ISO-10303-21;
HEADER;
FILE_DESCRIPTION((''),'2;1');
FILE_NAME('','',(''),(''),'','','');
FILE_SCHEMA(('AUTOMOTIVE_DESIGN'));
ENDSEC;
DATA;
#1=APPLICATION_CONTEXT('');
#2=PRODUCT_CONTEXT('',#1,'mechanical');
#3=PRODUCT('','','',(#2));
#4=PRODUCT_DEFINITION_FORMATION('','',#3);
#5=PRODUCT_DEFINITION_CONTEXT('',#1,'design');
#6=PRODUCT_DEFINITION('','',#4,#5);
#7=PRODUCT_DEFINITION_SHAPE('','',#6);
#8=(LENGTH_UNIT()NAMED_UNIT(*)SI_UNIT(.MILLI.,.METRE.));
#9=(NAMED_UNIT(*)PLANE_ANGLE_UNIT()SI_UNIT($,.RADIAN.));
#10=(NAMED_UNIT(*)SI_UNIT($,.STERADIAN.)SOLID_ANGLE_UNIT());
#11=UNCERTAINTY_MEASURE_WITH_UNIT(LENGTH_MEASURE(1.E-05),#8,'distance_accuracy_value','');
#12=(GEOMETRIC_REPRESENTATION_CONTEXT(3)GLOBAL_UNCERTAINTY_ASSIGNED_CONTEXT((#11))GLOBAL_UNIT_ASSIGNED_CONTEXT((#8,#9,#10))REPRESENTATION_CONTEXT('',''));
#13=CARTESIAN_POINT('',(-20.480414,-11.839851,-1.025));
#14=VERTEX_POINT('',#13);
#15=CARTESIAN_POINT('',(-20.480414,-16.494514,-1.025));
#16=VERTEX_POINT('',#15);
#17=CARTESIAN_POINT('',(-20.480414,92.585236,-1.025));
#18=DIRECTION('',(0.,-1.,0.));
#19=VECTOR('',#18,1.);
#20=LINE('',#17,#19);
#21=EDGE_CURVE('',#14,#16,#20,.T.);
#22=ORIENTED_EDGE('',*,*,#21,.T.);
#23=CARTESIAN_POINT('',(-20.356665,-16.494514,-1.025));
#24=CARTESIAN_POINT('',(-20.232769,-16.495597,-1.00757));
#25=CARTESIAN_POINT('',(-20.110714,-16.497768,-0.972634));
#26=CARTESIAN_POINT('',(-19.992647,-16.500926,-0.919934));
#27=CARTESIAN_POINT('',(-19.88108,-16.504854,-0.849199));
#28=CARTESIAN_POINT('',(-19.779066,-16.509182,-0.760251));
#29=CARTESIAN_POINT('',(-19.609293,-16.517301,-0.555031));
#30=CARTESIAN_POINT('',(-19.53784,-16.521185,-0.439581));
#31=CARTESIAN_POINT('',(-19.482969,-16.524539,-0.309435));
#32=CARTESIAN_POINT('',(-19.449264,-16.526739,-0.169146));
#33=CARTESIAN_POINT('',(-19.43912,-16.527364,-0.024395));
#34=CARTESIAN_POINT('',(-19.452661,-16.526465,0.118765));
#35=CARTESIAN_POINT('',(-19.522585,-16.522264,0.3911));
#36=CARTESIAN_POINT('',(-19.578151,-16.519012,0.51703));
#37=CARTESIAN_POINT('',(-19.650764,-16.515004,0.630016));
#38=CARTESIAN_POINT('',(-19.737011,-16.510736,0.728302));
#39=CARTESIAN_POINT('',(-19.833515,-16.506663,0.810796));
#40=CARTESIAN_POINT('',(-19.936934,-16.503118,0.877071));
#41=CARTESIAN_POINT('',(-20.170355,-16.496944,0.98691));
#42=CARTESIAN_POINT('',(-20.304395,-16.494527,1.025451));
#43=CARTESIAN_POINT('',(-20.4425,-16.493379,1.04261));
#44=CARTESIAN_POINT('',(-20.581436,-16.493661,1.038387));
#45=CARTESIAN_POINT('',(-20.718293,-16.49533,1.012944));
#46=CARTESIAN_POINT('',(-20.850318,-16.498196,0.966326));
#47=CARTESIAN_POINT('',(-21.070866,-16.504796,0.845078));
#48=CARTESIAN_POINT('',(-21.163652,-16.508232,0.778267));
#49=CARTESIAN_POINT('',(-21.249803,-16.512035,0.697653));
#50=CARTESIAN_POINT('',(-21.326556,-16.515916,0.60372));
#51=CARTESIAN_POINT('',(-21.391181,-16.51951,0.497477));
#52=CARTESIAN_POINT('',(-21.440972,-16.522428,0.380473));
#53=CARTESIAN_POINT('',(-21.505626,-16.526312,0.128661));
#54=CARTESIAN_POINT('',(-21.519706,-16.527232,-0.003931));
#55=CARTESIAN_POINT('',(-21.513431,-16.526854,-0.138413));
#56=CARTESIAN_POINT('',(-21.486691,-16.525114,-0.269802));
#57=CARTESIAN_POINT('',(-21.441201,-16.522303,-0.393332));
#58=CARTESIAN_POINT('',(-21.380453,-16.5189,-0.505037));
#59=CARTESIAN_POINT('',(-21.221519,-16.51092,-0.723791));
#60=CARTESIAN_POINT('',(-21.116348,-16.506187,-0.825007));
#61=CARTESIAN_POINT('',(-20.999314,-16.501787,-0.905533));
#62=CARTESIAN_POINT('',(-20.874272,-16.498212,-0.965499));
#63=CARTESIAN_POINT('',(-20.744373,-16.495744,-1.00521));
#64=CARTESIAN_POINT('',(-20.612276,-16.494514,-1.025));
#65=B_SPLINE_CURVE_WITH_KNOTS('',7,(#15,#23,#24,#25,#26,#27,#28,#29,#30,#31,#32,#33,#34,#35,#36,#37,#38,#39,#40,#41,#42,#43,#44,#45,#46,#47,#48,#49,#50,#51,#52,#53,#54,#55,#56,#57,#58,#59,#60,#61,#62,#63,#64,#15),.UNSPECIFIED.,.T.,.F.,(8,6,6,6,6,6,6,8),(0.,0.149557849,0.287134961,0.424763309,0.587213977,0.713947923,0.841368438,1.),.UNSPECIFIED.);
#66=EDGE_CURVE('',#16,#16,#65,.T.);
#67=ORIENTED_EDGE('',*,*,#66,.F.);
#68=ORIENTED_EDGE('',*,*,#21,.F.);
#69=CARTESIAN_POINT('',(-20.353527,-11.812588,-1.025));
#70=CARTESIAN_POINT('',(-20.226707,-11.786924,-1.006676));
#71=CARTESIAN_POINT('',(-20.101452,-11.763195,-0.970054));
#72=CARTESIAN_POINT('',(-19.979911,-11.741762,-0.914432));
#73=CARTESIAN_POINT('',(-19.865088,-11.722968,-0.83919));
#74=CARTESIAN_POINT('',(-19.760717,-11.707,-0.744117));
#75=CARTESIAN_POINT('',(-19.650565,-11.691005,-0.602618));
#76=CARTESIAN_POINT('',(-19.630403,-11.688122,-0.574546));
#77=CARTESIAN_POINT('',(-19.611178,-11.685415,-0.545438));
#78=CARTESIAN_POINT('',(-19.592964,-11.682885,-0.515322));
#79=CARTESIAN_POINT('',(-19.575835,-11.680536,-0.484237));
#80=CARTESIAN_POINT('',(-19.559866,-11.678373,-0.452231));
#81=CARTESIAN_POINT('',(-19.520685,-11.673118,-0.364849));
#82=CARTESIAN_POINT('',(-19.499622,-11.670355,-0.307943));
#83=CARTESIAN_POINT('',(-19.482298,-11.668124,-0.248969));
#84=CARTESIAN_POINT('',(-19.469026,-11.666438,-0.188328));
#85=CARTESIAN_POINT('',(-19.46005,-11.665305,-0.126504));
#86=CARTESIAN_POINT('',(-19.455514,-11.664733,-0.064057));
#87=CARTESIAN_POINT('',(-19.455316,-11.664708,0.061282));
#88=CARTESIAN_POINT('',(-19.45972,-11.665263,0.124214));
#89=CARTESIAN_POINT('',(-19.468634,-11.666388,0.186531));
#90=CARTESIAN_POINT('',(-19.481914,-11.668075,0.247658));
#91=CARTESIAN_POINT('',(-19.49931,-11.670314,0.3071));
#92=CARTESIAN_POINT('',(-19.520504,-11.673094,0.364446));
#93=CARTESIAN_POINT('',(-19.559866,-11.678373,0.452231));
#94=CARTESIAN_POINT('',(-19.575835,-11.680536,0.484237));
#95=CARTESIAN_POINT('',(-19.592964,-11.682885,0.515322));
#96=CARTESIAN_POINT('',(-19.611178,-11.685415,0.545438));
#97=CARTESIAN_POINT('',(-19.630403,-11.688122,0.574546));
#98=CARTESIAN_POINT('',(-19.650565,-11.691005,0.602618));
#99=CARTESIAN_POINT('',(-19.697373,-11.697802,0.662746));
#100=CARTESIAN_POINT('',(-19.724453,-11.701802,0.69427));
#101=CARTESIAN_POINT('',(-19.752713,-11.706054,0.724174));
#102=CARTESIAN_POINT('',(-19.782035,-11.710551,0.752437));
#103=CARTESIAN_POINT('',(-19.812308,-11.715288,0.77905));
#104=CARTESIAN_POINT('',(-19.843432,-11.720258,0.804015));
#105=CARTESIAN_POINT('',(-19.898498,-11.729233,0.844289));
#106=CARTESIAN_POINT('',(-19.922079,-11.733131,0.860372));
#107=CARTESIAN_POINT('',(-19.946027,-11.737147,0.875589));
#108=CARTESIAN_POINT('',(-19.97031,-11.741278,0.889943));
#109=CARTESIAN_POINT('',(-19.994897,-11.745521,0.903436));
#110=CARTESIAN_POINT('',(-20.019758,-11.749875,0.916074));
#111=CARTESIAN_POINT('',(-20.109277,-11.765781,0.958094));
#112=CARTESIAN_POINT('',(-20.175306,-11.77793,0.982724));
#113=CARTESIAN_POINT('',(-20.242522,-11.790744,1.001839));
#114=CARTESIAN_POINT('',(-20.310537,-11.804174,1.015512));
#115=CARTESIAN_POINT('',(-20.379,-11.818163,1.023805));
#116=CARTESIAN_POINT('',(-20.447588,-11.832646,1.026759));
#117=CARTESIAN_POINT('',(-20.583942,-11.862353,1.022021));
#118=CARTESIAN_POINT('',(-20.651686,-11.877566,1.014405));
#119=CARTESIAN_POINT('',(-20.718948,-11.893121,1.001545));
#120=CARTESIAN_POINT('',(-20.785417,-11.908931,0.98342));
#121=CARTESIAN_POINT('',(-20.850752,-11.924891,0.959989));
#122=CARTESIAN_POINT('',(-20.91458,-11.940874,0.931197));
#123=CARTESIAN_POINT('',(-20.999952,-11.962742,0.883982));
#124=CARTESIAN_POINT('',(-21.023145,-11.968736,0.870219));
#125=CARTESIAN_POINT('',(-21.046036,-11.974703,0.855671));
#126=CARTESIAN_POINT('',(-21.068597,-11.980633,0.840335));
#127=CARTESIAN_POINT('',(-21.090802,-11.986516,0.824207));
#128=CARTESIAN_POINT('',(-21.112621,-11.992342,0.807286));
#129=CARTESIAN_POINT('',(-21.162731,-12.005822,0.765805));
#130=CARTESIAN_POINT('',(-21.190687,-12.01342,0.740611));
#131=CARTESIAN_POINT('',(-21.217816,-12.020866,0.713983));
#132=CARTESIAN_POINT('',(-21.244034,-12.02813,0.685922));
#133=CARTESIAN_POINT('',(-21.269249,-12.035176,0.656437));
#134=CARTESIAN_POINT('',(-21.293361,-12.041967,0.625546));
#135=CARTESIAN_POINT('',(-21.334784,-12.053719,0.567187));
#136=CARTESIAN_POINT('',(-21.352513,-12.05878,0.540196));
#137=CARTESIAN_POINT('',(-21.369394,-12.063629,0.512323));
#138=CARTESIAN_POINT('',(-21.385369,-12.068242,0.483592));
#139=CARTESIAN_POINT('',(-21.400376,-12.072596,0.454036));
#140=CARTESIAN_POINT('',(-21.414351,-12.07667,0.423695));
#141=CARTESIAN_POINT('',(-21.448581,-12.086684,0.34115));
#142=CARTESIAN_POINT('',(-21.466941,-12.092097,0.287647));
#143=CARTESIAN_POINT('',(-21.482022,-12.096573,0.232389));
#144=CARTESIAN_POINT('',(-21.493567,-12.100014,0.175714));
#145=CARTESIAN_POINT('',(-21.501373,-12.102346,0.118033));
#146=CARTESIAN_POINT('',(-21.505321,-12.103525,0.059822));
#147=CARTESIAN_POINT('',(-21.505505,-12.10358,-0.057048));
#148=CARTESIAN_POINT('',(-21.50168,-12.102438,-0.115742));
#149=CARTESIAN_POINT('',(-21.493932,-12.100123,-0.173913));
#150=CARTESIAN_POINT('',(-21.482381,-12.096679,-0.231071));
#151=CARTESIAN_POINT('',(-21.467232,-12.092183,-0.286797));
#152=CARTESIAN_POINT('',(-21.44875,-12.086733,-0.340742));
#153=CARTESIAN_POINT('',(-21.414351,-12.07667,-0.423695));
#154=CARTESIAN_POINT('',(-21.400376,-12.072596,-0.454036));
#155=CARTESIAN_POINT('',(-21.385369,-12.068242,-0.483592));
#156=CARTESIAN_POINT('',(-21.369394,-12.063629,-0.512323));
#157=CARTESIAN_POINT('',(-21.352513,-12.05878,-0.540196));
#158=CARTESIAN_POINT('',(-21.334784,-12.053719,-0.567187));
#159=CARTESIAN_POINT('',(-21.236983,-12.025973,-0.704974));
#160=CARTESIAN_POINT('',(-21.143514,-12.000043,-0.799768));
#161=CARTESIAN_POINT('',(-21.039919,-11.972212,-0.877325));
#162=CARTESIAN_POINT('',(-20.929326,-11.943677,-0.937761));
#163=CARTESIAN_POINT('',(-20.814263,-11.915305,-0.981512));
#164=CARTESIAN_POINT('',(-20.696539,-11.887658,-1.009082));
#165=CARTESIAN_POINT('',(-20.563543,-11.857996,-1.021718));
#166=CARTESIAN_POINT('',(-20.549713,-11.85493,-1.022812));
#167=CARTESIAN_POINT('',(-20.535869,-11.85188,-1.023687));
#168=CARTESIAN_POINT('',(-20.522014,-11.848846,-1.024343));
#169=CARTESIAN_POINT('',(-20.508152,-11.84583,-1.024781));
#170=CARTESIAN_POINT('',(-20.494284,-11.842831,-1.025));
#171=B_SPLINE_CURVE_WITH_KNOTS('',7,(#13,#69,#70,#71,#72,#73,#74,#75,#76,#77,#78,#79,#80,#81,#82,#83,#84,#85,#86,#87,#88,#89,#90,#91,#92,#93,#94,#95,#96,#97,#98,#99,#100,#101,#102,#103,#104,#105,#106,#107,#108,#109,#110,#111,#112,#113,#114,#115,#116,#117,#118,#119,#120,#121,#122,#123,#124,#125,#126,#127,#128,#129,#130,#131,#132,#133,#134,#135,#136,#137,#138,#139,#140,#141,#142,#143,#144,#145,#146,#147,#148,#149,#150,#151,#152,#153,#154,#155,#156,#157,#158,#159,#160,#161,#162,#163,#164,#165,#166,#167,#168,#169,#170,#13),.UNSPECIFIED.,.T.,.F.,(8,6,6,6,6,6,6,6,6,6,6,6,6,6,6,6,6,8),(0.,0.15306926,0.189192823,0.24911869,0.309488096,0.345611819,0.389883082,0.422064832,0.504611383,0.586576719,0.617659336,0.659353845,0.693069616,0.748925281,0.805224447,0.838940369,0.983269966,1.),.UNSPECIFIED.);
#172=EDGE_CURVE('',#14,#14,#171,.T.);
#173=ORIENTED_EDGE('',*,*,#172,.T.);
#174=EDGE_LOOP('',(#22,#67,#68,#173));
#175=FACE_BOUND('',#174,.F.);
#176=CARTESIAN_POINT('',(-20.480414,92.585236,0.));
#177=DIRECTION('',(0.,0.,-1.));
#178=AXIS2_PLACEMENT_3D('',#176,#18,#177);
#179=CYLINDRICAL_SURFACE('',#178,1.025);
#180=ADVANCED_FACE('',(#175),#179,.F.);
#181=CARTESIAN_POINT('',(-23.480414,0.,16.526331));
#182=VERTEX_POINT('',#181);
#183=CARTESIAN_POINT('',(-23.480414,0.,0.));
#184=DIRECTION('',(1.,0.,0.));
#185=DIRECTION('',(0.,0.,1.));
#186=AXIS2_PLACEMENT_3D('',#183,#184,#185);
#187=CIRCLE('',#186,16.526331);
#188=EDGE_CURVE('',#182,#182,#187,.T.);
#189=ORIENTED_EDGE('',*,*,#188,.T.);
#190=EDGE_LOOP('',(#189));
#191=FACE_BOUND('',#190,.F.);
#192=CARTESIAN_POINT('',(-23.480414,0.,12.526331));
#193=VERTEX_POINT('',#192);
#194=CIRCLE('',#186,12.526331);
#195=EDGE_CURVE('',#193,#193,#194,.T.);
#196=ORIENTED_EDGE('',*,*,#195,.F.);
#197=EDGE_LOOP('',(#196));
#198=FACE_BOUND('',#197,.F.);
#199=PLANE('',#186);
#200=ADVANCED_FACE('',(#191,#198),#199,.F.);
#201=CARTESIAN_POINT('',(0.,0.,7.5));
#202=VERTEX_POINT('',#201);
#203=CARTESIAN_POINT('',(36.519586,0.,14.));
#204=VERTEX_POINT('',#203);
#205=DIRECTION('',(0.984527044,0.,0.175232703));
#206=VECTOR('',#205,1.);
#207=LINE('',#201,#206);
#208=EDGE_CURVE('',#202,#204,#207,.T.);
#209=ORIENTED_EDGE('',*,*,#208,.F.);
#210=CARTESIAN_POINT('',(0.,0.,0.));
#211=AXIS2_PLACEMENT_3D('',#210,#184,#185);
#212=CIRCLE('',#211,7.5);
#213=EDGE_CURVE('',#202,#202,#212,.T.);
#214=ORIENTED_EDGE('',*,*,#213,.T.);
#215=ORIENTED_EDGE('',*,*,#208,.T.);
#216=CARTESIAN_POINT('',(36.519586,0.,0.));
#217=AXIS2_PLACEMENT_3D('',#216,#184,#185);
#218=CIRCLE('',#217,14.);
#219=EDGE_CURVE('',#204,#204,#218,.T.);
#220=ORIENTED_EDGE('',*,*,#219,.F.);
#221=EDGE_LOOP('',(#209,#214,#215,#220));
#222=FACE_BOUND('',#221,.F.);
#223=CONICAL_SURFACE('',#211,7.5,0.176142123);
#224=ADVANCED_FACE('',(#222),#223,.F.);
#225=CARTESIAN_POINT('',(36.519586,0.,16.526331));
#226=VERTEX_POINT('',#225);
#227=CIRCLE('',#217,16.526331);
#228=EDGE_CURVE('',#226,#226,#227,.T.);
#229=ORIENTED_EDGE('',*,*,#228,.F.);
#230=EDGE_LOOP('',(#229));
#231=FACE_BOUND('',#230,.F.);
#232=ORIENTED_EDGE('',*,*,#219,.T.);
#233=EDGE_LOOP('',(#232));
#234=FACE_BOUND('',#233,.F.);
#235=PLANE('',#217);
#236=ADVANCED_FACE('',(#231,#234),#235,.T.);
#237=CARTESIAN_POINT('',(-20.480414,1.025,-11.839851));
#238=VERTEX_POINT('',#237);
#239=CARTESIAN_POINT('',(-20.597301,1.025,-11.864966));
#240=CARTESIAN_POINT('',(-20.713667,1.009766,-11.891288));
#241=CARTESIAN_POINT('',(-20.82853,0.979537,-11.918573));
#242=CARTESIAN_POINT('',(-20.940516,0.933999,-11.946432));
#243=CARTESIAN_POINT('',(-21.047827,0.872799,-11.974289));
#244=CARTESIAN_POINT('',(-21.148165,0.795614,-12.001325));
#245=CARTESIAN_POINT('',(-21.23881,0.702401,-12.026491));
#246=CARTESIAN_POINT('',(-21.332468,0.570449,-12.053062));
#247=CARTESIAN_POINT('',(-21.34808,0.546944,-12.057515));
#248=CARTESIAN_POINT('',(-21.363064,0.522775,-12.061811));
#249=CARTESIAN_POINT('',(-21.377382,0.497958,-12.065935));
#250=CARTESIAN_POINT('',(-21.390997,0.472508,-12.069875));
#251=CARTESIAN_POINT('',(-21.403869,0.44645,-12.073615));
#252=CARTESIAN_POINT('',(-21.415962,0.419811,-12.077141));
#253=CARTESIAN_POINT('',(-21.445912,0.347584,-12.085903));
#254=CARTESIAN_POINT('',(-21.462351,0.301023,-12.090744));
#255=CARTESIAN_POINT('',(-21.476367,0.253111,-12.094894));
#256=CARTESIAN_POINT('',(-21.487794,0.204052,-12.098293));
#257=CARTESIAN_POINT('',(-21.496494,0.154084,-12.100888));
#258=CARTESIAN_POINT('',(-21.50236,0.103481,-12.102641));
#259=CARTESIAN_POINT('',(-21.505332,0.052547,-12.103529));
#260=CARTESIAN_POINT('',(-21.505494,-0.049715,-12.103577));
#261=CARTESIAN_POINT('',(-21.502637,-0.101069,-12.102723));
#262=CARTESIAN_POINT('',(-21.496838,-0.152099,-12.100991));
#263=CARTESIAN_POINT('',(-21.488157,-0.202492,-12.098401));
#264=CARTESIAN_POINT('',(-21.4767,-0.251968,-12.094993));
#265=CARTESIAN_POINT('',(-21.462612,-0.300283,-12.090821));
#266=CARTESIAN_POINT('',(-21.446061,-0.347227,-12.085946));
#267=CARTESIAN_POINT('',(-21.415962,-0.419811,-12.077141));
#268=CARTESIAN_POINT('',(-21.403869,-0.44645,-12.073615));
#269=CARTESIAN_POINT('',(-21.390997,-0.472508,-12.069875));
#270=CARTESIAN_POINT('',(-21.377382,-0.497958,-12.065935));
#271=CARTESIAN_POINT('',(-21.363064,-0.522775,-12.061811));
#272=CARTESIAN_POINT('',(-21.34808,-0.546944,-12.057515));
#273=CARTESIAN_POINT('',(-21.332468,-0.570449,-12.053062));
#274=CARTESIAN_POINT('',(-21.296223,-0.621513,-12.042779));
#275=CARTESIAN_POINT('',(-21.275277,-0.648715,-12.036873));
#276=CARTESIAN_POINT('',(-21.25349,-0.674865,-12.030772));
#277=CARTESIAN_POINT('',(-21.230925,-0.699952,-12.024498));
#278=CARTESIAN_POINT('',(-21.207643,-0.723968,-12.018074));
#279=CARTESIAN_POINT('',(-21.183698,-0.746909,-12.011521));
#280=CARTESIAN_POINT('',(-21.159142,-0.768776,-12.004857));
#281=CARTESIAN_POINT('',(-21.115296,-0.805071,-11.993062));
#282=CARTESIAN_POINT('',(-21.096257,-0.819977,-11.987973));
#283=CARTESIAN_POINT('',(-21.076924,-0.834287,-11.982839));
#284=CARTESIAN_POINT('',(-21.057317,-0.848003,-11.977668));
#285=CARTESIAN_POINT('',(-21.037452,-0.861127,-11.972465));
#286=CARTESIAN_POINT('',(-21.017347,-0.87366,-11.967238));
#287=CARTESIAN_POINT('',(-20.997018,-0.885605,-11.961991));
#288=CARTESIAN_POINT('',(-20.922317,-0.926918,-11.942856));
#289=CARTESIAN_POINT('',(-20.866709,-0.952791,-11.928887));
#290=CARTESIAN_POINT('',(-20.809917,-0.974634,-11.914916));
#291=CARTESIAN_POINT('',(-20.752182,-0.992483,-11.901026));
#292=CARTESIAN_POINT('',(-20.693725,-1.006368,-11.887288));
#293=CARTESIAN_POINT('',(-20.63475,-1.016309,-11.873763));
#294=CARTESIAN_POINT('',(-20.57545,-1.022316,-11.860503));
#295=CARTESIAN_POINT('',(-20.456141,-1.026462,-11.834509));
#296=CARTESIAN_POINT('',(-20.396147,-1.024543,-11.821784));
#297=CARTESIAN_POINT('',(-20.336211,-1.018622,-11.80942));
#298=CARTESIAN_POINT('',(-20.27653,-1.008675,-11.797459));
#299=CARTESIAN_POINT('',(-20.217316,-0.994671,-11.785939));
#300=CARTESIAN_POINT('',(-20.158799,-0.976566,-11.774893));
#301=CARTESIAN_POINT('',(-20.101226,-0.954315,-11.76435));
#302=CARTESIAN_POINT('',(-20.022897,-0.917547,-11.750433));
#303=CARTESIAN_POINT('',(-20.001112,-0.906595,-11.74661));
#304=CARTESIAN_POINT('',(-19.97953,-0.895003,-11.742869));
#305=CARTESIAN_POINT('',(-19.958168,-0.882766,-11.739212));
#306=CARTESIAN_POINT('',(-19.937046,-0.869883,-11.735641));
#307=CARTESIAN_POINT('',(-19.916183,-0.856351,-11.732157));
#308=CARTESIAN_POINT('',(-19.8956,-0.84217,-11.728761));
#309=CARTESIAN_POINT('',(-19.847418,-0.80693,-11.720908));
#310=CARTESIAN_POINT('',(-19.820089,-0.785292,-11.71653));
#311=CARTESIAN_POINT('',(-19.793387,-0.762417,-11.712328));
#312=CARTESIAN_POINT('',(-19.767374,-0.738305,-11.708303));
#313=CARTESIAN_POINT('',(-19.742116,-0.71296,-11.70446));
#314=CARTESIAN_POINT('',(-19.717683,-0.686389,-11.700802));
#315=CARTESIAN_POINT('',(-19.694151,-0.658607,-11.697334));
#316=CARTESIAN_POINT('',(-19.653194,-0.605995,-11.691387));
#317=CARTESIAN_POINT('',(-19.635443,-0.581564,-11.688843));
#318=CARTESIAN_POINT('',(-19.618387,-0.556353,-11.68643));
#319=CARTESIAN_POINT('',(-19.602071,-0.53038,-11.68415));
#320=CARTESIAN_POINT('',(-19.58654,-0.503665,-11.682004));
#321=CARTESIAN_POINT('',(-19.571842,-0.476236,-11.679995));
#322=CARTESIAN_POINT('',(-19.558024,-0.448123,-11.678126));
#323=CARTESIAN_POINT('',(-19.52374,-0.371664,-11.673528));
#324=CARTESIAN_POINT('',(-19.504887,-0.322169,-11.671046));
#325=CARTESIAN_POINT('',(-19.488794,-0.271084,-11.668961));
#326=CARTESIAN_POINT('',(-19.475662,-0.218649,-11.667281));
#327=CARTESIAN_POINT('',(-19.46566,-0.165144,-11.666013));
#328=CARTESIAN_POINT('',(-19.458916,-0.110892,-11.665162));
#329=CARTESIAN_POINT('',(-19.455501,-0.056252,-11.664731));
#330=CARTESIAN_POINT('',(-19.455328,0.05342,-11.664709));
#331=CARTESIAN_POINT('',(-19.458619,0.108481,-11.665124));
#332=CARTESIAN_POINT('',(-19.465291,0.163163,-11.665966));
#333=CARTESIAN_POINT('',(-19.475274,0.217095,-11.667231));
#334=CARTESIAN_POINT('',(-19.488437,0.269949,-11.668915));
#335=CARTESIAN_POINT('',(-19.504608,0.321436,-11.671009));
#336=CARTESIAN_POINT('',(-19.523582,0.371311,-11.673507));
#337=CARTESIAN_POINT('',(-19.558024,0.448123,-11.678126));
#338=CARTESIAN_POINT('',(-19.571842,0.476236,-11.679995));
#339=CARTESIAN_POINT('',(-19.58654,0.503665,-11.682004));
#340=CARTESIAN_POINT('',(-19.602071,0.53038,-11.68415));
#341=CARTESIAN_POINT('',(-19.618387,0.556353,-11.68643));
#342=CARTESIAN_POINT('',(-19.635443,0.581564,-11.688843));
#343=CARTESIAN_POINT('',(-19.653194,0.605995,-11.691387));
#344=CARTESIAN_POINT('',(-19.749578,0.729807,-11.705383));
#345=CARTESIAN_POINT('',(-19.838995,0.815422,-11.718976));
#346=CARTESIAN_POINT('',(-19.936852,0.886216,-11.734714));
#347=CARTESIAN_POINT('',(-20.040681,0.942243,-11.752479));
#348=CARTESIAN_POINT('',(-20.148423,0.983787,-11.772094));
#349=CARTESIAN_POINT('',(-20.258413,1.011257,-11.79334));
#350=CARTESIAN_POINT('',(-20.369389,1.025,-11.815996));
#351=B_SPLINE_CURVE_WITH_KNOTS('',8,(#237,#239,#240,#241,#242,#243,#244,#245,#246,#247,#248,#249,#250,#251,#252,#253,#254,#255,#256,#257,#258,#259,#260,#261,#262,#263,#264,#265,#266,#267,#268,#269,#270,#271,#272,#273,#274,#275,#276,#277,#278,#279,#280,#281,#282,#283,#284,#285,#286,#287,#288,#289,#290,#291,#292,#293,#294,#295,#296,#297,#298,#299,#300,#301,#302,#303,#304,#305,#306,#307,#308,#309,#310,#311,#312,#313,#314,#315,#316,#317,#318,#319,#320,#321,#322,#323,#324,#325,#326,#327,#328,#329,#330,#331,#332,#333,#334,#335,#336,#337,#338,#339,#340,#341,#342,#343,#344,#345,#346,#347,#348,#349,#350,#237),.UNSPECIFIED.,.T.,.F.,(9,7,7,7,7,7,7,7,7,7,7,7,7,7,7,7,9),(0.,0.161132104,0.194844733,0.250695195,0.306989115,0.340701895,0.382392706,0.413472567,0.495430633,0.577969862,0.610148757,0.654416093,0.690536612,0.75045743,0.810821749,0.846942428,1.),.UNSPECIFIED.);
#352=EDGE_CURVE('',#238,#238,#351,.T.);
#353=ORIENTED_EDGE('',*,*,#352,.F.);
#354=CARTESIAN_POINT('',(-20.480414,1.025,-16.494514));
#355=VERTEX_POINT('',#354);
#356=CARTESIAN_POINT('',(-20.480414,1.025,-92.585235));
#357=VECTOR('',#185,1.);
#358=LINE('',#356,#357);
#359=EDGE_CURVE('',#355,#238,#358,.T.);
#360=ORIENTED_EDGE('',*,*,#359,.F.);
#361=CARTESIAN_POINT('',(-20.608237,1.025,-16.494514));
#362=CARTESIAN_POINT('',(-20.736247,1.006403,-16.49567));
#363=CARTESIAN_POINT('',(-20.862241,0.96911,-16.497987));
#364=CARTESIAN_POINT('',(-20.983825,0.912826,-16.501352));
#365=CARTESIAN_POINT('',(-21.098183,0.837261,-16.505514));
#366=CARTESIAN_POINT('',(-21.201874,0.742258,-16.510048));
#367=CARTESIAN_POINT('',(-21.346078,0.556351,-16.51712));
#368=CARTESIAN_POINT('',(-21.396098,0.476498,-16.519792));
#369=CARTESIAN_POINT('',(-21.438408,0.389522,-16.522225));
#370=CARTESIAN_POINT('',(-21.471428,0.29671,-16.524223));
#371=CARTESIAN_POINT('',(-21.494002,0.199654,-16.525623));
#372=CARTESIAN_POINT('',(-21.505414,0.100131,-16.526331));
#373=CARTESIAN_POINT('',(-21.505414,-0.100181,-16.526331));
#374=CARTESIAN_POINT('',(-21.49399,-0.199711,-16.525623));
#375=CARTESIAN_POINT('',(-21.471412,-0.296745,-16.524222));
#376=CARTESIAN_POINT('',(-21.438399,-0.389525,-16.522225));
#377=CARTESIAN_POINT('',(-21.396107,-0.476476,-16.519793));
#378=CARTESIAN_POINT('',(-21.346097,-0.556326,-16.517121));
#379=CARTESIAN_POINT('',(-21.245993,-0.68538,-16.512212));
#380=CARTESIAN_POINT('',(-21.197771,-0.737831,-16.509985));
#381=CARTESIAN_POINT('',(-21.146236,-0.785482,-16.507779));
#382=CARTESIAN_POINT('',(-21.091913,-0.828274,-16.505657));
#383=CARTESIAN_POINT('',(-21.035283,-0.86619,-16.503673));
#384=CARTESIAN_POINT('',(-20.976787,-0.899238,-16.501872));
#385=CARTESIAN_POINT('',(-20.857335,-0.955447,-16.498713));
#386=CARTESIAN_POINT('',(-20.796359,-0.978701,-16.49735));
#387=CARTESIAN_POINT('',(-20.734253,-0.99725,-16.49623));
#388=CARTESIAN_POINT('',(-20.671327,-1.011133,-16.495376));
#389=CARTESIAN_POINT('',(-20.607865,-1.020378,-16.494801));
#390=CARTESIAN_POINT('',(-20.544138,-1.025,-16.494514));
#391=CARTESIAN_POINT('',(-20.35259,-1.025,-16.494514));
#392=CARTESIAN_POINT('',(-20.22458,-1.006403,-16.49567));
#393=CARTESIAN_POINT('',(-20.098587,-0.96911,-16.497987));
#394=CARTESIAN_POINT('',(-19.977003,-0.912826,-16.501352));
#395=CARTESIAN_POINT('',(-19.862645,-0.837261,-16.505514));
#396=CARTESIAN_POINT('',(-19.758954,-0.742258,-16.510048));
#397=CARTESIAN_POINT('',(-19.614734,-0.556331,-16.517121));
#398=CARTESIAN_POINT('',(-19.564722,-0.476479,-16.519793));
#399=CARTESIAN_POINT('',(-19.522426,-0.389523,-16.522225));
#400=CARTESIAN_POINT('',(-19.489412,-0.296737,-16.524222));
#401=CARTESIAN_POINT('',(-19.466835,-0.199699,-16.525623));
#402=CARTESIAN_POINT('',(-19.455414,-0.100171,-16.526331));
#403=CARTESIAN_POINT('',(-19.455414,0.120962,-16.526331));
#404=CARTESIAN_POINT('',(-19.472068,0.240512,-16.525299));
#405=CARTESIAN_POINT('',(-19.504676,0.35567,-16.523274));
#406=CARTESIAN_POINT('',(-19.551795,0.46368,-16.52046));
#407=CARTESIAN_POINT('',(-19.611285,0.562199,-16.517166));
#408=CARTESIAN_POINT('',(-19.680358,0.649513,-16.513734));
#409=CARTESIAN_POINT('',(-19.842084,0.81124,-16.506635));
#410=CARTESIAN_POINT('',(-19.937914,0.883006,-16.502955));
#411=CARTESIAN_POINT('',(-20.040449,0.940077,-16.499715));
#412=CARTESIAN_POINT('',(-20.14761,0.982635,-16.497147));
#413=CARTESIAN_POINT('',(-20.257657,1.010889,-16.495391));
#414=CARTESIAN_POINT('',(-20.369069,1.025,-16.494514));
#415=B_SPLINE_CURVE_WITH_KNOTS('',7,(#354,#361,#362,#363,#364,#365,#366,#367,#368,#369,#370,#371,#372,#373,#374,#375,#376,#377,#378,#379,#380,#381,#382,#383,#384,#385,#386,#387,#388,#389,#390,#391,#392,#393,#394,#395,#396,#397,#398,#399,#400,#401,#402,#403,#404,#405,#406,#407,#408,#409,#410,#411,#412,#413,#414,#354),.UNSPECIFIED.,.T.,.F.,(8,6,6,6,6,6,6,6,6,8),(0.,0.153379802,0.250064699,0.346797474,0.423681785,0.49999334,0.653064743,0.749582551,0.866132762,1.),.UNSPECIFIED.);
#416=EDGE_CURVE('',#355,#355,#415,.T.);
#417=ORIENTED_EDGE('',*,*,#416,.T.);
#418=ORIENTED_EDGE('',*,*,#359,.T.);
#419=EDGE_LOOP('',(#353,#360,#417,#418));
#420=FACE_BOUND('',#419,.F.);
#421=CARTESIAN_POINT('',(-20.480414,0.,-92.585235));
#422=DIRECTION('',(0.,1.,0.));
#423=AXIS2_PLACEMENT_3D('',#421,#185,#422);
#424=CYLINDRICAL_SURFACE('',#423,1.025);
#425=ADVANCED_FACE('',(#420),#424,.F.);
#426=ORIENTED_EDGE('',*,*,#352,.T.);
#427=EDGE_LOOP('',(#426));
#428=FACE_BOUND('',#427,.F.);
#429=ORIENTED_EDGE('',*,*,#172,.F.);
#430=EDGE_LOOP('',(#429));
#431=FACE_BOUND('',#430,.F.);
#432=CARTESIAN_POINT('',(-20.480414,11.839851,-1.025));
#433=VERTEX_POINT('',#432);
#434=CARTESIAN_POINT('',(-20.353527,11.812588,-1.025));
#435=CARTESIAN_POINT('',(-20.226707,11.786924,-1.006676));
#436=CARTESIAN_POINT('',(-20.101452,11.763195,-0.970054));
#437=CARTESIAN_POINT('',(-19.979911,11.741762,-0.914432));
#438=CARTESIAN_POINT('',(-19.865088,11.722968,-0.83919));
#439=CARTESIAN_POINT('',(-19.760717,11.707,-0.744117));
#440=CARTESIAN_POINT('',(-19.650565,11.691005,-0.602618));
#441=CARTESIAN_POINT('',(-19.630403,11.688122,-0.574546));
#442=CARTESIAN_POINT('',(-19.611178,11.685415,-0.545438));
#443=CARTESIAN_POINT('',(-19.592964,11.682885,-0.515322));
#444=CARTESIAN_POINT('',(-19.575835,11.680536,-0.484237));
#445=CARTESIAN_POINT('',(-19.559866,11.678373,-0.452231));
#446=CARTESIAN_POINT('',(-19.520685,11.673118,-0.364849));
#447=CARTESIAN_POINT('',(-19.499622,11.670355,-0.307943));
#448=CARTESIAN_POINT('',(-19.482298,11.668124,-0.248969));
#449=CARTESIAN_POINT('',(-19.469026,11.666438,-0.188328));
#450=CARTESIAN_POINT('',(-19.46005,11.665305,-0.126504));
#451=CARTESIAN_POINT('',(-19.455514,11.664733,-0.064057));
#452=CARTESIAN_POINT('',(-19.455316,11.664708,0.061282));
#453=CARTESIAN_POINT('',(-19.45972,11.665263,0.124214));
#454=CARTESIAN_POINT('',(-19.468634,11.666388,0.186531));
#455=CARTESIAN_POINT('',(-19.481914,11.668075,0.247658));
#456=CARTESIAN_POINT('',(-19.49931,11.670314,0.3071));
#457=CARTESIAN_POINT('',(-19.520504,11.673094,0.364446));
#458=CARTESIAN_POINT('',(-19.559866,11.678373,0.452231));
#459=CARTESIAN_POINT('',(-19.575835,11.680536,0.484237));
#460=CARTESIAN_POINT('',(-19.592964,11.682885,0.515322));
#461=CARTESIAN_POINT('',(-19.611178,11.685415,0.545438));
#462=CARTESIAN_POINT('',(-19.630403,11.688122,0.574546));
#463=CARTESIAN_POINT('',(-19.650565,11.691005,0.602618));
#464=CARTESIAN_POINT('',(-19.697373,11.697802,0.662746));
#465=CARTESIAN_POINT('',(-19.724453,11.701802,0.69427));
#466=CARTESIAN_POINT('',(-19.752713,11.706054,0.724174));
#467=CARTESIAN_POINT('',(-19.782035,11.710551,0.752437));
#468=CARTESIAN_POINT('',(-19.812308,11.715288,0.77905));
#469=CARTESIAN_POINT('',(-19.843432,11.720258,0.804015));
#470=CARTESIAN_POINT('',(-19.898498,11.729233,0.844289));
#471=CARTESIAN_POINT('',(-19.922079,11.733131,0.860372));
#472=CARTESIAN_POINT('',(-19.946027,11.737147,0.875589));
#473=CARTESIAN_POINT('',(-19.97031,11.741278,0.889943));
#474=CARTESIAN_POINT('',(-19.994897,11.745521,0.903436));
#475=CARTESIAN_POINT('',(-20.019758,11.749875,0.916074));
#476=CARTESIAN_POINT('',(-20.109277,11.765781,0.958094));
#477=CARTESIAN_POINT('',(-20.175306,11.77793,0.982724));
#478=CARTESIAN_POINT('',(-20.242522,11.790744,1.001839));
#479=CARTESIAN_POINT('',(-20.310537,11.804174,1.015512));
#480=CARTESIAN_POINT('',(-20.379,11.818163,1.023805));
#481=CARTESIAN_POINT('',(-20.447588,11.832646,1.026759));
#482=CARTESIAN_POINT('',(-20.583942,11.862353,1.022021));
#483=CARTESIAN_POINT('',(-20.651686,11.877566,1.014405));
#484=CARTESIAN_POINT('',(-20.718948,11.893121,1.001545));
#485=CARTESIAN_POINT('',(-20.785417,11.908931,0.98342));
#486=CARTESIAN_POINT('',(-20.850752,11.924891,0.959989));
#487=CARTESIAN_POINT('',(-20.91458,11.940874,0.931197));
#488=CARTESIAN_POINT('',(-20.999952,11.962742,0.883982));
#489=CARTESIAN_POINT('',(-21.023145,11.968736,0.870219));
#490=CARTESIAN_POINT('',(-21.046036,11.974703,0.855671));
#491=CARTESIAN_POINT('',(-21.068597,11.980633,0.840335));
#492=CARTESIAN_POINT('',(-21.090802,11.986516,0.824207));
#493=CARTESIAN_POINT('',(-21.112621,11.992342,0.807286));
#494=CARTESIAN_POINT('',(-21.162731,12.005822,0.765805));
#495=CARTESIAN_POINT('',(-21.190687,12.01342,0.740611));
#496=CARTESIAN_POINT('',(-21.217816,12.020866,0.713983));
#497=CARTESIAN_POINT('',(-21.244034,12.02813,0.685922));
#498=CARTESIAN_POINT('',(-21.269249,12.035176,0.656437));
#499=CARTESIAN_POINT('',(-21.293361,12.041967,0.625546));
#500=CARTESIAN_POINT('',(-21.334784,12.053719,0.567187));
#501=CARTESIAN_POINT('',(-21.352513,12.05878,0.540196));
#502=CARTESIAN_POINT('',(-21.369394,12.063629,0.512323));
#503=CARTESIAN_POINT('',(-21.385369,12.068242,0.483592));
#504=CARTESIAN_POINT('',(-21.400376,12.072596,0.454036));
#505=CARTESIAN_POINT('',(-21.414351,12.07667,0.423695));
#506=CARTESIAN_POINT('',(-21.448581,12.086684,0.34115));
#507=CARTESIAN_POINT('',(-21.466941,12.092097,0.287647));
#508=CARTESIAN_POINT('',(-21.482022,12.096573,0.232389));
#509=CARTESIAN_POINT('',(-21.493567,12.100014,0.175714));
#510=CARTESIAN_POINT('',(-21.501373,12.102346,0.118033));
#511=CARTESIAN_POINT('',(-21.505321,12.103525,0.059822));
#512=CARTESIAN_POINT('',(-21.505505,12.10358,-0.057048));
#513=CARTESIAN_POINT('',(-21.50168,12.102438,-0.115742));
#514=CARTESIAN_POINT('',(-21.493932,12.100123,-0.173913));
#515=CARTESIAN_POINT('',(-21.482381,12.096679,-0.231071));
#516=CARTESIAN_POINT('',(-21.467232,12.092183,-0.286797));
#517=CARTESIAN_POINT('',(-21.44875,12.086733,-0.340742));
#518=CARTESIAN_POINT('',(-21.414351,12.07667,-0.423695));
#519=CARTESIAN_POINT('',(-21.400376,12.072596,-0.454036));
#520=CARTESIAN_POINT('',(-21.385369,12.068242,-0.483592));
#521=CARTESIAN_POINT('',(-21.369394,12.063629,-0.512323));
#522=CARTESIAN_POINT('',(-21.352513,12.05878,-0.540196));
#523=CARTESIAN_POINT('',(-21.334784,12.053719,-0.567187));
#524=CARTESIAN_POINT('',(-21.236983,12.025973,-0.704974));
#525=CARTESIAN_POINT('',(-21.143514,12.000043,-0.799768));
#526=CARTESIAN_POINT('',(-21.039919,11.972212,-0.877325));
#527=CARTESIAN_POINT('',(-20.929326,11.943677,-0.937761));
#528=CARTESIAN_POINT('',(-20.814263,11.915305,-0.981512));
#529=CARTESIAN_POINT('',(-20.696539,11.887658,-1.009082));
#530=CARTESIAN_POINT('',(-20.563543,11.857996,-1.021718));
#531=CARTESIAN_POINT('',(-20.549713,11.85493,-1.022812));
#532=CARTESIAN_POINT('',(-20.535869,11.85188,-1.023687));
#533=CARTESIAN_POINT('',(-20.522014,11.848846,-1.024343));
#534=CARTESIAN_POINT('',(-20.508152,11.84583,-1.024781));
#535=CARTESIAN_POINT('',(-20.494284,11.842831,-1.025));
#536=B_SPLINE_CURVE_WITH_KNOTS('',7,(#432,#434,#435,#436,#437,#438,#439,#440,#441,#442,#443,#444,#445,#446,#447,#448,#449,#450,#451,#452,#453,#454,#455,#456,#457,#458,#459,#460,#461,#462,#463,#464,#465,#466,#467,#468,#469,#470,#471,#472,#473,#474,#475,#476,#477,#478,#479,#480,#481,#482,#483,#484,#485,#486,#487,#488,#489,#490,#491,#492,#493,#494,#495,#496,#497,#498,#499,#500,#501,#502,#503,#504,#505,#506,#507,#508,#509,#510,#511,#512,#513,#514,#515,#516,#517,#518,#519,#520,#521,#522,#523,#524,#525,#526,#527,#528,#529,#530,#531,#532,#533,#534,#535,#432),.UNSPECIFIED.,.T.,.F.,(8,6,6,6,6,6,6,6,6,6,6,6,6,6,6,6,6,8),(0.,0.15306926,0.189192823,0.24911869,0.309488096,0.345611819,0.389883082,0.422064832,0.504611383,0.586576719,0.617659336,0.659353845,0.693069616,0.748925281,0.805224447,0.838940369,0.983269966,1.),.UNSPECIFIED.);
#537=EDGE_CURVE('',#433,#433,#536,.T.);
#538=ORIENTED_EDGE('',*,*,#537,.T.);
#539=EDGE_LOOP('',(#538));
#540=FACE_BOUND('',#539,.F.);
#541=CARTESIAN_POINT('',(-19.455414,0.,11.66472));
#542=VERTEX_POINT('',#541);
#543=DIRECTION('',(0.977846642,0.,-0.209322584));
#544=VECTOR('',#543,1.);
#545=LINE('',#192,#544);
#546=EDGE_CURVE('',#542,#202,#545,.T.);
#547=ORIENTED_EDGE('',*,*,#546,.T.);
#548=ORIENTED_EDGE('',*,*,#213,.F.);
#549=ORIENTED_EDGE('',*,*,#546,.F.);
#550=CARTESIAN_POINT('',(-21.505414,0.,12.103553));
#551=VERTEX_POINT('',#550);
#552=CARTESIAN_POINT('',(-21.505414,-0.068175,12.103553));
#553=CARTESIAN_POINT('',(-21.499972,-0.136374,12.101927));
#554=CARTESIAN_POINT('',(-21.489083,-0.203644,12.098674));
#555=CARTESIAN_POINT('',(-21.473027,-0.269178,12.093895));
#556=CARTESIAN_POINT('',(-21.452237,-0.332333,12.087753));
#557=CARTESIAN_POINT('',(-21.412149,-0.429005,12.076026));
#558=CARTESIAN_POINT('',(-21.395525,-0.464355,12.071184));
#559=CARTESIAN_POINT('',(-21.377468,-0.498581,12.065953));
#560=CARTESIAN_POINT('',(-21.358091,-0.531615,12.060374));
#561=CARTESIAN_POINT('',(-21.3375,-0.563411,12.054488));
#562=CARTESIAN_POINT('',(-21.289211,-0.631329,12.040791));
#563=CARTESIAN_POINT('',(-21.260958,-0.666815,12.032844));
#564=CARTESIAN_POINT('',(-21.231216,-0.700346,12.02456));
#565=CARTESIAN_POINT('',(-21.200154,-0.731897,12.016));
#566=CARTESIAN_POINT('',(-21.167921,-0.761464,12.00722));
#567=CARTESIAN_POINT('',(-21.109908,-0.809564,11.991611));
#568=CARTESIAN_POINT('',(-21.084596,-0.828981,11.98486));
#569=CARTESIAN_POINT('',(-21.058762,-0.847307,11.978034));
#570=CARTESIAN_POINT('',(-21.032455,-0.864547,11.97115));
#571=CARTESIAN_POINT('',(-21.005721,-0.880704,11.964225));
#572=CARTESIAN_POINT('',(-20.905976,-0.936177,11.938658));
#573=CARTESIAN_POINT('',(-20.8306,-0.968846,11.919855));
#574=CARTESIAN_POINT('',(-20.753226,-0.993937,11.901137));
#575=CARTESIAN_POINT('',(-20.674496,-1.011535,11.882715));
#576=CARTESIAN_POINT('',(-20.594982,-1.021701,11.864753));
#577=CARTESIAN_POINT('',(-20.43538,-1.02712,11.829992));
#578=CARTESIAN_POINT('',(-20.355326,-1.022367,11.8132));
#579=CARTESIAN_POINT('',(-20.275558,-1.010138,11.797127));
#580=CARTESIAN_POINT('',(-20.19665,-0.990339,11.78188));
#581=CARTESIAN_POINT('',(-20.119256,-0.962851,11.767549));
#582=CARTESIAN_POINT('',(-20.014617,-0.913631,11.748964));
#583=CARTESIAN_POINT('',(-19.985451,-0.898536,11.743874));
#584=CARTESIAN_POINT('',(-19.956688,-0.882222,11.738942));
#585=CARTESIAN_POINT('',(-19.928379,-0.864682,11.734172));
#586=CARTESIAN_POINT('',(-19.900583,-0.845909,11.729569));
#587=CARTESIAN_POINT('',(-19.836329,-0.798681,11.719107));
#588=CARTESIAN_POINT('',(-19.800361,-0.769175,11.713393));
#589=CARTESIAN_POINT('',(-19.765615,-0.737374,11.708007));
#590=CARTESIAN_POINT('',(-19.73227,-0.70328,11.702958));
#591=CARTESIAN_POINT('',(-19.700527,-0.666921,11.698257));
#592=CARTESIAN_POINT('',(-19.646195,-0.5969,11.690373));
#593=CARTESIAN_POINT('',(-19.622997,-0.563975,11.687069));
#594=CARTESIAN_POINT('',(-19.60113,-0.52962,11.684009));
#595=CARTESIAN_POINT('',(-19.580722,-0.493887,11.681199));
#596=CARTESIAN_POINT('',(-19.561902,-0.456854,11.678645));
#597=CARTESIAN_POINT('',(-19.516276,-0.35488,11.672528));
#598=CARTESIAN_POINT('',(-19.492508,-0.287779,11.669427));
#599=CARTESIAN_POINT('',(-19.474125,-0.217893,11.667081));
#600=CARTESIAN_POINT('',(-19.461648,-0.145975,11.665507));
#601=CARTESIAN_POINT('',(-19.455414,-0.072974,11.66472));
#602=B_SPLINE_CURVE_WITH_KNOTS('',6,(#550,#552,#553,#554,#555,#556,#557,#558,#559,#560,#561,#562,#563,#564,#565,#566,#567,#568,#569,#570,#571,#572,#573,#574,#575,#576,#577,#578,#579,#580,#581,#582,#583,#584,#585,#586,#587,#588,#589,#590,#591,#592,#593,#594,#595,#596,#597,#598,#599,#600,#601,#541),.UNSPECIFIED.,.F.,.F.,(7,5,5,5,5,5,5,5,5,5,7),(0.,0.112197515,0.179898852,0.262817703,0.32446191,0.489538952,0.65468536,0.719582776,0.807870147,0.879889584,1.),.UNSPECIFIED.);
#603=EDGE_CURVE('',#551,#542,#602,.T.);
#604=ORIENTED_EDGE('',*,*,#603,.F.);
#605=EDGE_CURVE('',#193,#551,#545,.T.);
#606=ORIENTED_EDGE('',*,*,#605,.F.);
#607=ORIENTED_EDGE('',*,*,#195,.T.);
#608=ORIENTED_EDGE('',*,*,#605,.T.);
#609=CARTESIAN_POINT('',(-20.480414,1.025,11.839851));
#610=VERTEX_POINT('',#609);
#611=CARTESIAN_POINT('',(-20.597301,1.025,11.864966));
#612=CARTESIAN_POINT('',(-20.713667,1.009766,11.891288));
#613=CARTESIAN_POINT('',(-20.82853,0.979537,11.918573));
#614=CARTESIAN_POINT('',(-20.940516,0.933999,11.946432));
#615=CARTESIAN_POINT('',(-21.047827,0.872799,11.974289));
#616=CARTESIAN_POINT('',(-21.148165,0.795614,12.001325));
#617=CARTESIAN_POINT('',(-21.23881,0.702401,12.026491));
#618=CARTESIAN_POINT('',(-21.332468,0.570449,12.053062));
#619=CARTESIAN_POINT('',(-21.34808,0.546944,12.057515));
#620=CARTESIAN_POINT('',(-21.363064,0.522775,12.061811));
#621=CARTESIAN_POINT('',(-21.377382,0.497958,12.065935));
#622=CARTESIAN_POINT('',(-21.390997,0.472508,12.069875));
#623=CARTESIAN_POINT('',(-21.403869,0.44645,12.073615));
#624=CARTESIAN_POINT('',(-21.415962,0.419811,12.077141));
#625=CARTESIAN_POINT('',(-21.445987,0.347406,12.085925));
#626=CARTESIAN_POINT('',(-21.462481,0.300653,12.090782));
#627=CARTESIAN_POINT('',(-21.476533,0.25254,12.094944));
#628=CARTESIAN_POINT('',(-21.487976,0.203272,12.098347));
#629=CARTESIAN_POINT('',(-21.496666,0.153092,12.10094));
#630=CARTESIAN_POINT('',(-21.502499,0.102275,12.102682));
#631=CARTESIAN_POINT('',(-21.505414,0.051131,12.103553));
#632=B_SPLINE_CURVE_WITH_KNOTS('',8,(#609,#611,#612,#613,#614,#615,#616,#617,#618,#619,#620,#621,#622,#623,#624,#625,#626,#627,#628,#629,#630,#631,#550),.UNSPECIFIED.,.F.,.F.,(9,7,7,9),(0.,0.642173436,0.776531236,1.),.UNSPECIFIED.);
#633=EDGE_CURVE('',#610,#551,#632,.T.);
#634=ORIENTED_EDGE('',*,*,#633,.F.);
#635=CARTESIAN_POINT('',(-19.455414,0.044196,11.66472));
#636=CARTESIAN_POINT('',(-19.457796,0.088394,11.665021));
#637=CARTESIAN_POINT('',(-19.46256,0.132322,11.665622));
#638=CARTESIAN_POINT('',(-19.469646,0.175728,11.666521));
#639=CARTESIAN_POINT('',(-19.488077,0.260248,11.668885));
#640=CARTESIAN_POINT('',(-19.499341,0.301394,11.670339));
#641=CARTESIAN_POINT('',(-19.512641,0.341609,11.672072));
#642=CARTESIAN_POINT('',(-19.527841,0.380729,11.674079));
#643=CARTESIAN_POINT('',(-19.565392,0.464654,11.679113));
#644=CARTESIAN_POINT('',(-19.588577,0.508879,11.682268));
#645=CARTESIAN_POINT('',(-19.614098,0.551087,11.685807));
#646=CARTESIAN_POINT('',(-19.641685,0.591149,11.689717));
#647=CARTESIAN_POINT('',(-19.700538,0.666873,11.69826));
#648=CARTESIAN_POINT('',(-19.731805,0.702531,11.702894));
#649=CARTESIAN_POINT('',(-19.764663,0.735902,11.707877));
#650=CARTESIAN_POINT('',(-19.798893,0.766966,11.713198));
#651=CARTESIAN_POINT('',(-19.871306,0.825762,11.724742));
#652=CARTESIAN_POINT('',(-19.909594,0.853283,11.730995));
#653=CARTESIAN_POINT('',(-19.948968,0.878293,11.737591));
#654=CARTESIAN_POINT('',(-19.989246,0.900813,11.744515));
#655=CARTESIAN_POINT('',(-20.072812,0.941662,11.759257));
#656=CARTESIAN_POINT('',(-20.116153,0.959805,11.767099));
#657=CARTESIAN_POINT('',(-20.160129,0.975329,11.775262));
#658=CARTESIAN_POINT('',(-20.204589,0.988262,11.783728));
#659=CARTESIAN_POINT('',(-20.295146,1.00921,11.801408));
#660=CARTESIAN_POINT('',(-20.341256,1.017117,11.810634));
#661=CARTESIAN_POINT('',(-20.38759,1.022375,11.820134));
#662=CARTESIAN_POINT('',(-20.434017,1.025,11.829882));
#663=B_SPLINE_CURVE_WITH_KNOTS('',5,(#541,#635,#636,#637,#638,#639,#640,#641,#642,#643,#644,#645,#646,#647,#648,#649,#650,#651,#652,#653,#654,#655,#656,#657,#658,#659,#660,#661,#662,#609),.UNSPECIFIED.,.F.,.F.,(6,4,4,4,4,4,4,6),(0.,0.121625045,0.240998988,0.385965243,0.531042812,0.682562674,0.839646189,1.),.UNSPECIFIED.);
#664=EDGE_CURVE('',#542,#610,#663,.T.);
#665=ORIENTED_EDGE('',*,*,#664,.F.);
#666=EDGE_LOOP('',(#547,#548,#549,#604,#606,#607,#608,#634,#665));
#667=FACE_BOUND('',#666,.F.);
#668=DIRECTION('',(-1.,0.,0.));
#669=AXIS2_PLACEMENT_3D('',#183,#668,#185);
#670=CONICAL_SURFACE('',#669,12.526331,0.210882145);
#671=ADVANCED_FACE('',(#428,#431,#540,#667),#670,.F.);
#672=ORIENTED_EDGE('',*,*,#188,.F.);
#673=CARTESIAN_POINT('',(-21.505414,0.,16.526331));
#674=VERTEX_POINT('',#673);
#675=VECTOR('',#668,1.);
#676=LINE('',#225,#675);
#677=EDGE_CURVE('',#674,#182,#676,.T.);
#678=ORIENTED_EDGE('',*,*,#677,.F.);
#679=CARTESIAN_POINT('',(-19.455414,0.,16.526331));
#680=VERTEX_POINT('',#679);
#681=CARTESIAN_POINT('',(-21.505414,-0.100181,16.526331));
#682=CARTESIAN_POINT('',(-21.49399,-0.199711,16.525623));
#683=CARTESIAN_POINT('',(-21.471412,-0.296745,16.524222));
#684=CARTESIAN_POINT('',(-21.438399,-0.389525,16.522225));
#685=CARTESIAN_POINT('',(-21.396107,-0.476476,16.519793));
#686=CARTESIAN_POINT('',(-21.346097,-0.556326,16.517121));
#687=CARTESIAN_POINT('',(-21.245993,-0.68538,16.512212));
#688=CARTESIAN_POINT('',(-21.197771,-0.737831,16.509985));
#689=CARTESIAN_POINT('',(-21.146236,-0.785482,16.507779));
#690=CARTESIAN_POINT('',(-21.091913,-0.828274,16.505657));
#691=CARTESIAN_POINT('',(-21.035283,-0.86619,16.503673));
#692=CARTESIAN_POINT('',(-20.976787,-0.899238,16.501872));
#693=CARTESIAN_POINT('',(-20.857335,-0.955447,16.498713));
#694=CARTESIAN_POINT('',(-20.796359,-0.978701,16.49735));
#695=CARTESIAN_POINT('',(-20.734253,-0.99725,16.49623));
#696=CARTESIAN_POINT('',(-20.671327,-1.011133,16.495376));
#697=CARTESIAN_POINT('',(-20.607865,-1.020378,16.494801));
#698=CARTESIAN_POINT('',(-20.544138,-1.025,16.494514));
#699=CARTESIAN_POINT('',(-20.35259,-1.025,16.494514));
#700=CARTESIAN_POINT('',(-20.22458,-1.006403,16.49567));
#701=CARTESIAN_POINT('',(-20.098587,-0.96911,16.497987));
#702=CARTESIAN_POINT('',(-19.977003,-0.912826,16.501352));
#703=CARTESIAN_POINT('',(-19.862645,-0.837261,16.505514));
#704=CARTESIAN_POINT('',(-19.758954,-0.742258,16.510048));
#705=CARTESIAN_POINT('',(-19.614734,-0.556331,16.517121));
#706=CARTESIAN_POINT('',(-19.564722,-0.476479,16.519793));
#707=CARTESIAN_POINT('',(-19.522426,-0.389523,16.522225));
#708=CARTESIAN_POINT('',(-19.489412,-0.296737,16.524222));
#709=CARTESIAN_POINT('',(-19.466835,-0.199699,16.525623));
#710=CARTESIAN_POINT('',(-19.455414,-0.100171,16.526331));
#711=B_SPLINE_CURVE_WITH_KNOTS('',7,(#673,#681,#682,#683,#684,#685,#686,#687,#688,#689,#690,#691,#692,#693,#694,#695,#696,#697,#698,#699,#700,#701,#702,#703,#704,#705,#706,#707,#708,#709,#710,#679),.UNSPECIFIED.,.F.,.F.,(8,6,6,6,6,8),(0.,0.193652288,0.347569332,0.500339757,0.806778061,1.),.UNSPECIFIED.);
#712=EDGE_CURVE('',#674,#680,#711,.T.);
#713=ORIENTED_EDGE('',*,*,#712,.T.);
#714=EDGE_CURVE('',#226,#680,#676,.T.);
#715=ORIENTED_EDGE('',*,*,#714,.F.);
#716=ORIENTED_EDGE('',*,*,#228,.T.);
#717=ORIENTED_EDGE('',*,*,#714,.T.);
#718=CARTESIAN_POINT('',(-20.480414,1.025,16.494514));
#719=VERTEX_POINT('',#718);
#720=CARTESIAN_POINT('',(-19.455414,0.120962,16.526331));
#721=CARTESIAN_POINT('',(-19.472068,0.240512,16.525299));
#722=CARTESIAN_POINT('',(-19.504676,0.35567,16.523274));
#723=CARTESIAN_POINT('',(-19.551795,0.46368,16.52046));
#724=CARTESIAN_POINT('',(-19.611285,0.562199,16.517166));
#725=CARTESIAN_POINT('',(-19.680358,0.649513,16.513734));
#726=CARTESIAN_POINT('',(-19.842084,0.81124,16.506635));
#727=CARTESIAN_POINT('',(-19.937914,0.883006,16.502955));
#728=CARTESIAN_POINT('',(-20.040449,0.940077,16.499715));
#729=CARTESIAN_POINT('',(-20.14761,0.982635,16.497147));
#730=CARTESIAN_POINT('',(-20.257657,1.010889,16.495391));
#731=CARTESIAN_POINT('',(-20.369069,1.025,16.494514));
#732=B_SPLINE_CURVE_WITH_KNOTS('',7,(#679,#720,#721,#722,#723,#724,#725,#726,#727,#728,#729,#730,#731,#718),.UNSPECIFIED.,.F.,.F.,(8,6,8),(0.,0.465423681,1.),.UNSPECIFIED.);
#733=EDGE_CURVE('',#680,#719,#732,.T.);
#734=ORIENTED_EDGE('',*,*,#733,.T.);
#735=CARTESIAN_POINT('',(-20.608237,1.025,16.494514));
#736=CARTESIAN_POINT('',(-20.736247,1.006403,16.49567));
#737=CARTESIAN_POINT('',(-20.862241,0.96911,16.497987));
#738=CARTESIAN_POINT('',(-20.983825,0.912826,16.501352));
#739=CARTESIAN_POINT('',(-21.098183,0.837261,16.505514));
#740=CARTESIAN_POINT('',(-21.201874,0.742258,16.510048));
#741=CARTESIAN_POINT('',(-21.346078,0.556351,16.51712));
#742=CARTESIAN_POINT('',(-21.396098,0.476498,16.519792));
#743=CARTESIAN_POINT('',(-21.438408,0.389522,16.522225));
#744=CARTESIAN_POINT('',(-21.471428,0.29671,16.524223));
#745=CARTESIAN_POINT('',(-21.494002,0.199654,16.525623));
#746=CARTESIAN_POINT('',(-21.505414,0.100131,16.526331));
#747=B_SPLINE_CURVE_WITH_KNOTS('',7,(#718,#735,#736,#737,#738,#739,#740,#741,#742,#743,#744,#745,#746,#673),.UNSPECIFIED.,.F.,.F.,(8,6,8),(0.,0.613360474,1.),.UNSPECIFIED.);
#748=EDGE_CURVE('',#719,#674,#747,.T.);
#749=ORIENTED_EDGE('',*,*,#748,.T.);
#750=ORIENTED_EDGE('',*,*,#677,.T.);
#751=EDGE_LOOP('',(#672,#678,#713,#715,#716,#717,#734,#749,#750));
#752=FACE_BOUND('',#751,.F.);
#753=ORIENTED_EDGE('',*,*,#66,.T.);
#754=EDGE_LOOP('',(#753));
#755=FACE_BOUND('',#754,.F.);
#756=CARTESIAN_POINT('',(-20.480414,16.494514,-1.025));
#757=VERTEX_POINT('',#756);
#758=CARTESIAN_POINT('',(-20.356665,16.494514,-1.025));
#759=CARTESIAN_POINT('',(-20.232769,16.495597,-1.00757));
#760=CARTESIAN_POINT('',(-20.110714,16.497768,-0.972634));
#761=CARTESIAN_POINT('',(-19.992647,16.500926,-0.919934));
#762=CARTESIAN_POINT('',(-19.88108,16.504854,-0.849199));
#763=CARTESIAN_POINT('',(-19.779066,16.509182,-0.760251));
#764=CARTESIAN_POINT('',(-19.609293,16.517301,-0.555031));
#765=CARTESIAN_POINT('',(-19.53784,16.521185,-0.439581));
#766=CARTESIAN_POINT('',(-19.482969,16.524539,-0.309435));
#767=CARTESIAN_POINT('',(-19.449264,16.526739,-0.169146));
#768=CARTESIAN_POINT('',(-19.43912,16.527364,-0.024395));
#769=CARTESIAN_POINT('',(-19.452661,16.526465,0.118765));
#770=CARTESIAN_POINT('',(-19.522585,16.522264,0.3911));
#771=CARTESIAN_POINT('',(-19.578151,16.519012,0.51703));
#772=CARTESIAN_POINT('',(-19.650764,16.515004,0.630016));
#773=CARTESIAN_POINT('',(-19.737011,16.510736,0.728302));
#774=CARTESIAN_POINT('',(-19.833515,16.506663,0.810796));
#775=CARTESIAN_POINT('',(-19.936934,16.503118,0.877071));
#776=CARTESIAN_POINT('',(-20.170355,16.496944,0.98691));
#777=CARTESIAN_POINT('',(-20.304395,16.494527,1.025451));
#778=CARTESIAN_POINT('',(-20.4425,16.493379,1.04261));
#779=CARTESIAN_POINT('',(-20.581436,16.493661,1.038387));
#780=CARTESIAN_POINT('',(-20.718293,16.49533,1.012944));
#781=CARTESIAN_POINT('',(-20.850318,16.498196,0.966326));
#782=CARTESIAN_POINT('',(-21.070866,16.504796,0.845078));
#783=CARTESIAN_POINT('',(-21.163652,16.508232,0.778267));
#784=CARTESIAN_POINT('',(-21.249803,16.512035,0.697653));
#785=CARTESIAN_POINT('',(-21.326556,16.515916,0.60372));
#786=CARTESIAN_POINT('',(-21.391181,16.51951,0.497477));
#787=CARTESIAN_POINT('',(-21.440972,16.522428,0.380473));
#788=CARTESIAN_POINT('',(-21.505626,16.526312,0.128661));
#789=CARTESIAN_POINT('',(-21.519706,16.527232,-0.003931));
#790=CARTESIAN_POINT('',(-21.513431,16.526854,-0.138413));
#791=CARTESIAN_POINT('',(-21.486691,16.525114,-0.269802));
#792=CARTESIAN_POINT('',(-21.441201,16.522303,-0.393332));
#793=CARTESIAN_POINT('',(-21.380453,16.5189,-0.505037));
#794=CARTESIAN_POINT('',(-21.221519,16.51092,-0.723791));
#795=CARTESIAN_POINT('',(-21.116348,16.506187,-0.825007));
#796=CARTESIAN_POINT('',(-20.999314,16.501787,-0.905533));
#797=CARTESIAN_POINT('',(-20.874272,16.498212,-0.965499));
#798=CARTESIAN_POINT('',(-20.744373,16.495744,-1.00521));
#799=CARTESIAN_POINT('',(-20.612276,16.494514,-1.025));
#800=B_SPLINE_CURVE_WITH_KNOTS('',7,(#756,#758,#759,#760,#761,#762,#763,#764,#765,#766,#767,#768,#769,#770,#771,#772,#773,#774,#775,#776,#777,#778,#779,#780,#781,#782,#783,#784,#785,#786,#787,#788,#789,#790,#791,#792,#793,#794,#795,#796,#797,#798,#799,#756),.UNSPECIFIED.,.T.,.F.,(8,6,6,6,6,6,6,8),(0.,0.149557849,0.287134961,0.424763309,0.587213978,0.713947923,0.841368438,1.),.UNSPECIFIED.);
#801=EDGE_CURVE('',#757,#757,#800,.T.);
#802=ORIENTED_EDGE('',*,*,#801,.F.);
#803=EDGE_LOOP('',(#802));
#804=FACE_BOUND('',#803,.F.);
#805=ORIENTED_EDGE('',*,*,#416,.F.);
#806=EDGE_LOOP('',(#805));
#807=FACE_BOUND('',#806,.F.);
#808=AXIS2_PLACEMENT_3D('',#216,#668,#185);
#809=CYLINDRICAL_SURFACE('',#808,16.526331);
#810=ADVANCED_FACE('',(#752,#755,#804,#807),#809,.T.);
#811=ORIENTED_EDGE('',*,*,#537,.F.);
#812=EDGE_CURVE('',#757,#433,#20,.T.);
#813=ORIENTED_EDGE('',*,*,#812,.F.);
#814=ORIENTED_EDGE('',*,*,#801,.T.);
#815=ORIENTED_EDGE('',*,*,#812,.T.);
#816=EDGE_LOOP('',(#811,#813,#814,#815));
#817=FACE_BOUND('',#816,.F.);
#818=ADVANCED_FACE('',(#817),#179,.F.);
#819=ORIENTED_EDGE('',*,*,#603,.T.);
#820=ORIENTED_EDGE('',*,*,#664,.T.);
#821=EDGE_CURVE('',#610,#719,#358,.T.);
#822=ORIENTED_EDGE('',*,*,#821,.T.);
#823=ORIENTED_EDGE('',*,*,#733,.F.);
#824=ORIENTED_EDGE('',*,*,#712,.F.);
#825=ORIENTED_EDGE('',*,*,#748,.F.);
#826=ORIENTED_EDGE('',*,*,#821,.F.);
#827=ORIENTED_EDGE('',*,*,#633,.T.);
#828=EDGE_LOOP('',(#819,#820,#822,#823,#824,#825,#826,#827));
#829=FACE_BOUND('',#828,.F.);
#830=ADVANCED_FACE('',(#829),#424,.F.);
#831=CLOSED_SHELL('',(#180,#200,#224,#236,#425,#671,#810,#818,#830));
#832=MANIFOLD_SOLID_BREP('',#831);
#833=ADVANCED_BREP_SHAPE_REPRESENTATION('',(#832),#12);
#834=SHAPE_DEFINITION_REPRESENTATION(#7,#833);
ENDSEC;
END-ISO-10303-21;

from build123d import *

# Parameters (mm, degrees)
M2_5_TAPPED_HOLE1_D           = 2.05
M2_5_TAPPED_HOLE1_ON_FACE_2_D = 2.05


with BuildPart() as part:
    # Sketch1 → Revolve1 (revolve)
    with BuildSketch(Plane.XY, mode=Mode.PRIVATE) as revolve1_sk:
        Polygon((0, 7.5), (36.519586152, 14), (36.519586152, 16.526331), (-23.480413848, 16.526331), (-23.480413848, 12.526331), align=None)
    revolve(revolve1_sk.sketch.rotate(Axis((-21.926609295, 0, 0), (1, 0, 0)), 90), axis=Axis((-21.926609295, 0, 0), (1, 0, 0)))

    # M2.5 Tapped Hole1 (through all)
    with Locations(Plane(origin=(-20.480413848, 0, -16.526331), x_dir=(0, -1, 0), z_dir=(0, 0, -1))):
        with Locations((0, 0)):
            Hole(M2_5_TAPPED_HOLE1_D / 2)

    # M2.5 Tapped Hole1 on face 2 (through all)
    with Locations(Plane(origin=(-20.480413848, 16.526331, 0), x_dir=(0, 0, 1), z_dir=(0, 1, 0))):
        with Locations((0, 0)):
            Hole(M2_5_TAPPED_HOLE1_ON_FACE_2_D / 2)


solid = part.part
